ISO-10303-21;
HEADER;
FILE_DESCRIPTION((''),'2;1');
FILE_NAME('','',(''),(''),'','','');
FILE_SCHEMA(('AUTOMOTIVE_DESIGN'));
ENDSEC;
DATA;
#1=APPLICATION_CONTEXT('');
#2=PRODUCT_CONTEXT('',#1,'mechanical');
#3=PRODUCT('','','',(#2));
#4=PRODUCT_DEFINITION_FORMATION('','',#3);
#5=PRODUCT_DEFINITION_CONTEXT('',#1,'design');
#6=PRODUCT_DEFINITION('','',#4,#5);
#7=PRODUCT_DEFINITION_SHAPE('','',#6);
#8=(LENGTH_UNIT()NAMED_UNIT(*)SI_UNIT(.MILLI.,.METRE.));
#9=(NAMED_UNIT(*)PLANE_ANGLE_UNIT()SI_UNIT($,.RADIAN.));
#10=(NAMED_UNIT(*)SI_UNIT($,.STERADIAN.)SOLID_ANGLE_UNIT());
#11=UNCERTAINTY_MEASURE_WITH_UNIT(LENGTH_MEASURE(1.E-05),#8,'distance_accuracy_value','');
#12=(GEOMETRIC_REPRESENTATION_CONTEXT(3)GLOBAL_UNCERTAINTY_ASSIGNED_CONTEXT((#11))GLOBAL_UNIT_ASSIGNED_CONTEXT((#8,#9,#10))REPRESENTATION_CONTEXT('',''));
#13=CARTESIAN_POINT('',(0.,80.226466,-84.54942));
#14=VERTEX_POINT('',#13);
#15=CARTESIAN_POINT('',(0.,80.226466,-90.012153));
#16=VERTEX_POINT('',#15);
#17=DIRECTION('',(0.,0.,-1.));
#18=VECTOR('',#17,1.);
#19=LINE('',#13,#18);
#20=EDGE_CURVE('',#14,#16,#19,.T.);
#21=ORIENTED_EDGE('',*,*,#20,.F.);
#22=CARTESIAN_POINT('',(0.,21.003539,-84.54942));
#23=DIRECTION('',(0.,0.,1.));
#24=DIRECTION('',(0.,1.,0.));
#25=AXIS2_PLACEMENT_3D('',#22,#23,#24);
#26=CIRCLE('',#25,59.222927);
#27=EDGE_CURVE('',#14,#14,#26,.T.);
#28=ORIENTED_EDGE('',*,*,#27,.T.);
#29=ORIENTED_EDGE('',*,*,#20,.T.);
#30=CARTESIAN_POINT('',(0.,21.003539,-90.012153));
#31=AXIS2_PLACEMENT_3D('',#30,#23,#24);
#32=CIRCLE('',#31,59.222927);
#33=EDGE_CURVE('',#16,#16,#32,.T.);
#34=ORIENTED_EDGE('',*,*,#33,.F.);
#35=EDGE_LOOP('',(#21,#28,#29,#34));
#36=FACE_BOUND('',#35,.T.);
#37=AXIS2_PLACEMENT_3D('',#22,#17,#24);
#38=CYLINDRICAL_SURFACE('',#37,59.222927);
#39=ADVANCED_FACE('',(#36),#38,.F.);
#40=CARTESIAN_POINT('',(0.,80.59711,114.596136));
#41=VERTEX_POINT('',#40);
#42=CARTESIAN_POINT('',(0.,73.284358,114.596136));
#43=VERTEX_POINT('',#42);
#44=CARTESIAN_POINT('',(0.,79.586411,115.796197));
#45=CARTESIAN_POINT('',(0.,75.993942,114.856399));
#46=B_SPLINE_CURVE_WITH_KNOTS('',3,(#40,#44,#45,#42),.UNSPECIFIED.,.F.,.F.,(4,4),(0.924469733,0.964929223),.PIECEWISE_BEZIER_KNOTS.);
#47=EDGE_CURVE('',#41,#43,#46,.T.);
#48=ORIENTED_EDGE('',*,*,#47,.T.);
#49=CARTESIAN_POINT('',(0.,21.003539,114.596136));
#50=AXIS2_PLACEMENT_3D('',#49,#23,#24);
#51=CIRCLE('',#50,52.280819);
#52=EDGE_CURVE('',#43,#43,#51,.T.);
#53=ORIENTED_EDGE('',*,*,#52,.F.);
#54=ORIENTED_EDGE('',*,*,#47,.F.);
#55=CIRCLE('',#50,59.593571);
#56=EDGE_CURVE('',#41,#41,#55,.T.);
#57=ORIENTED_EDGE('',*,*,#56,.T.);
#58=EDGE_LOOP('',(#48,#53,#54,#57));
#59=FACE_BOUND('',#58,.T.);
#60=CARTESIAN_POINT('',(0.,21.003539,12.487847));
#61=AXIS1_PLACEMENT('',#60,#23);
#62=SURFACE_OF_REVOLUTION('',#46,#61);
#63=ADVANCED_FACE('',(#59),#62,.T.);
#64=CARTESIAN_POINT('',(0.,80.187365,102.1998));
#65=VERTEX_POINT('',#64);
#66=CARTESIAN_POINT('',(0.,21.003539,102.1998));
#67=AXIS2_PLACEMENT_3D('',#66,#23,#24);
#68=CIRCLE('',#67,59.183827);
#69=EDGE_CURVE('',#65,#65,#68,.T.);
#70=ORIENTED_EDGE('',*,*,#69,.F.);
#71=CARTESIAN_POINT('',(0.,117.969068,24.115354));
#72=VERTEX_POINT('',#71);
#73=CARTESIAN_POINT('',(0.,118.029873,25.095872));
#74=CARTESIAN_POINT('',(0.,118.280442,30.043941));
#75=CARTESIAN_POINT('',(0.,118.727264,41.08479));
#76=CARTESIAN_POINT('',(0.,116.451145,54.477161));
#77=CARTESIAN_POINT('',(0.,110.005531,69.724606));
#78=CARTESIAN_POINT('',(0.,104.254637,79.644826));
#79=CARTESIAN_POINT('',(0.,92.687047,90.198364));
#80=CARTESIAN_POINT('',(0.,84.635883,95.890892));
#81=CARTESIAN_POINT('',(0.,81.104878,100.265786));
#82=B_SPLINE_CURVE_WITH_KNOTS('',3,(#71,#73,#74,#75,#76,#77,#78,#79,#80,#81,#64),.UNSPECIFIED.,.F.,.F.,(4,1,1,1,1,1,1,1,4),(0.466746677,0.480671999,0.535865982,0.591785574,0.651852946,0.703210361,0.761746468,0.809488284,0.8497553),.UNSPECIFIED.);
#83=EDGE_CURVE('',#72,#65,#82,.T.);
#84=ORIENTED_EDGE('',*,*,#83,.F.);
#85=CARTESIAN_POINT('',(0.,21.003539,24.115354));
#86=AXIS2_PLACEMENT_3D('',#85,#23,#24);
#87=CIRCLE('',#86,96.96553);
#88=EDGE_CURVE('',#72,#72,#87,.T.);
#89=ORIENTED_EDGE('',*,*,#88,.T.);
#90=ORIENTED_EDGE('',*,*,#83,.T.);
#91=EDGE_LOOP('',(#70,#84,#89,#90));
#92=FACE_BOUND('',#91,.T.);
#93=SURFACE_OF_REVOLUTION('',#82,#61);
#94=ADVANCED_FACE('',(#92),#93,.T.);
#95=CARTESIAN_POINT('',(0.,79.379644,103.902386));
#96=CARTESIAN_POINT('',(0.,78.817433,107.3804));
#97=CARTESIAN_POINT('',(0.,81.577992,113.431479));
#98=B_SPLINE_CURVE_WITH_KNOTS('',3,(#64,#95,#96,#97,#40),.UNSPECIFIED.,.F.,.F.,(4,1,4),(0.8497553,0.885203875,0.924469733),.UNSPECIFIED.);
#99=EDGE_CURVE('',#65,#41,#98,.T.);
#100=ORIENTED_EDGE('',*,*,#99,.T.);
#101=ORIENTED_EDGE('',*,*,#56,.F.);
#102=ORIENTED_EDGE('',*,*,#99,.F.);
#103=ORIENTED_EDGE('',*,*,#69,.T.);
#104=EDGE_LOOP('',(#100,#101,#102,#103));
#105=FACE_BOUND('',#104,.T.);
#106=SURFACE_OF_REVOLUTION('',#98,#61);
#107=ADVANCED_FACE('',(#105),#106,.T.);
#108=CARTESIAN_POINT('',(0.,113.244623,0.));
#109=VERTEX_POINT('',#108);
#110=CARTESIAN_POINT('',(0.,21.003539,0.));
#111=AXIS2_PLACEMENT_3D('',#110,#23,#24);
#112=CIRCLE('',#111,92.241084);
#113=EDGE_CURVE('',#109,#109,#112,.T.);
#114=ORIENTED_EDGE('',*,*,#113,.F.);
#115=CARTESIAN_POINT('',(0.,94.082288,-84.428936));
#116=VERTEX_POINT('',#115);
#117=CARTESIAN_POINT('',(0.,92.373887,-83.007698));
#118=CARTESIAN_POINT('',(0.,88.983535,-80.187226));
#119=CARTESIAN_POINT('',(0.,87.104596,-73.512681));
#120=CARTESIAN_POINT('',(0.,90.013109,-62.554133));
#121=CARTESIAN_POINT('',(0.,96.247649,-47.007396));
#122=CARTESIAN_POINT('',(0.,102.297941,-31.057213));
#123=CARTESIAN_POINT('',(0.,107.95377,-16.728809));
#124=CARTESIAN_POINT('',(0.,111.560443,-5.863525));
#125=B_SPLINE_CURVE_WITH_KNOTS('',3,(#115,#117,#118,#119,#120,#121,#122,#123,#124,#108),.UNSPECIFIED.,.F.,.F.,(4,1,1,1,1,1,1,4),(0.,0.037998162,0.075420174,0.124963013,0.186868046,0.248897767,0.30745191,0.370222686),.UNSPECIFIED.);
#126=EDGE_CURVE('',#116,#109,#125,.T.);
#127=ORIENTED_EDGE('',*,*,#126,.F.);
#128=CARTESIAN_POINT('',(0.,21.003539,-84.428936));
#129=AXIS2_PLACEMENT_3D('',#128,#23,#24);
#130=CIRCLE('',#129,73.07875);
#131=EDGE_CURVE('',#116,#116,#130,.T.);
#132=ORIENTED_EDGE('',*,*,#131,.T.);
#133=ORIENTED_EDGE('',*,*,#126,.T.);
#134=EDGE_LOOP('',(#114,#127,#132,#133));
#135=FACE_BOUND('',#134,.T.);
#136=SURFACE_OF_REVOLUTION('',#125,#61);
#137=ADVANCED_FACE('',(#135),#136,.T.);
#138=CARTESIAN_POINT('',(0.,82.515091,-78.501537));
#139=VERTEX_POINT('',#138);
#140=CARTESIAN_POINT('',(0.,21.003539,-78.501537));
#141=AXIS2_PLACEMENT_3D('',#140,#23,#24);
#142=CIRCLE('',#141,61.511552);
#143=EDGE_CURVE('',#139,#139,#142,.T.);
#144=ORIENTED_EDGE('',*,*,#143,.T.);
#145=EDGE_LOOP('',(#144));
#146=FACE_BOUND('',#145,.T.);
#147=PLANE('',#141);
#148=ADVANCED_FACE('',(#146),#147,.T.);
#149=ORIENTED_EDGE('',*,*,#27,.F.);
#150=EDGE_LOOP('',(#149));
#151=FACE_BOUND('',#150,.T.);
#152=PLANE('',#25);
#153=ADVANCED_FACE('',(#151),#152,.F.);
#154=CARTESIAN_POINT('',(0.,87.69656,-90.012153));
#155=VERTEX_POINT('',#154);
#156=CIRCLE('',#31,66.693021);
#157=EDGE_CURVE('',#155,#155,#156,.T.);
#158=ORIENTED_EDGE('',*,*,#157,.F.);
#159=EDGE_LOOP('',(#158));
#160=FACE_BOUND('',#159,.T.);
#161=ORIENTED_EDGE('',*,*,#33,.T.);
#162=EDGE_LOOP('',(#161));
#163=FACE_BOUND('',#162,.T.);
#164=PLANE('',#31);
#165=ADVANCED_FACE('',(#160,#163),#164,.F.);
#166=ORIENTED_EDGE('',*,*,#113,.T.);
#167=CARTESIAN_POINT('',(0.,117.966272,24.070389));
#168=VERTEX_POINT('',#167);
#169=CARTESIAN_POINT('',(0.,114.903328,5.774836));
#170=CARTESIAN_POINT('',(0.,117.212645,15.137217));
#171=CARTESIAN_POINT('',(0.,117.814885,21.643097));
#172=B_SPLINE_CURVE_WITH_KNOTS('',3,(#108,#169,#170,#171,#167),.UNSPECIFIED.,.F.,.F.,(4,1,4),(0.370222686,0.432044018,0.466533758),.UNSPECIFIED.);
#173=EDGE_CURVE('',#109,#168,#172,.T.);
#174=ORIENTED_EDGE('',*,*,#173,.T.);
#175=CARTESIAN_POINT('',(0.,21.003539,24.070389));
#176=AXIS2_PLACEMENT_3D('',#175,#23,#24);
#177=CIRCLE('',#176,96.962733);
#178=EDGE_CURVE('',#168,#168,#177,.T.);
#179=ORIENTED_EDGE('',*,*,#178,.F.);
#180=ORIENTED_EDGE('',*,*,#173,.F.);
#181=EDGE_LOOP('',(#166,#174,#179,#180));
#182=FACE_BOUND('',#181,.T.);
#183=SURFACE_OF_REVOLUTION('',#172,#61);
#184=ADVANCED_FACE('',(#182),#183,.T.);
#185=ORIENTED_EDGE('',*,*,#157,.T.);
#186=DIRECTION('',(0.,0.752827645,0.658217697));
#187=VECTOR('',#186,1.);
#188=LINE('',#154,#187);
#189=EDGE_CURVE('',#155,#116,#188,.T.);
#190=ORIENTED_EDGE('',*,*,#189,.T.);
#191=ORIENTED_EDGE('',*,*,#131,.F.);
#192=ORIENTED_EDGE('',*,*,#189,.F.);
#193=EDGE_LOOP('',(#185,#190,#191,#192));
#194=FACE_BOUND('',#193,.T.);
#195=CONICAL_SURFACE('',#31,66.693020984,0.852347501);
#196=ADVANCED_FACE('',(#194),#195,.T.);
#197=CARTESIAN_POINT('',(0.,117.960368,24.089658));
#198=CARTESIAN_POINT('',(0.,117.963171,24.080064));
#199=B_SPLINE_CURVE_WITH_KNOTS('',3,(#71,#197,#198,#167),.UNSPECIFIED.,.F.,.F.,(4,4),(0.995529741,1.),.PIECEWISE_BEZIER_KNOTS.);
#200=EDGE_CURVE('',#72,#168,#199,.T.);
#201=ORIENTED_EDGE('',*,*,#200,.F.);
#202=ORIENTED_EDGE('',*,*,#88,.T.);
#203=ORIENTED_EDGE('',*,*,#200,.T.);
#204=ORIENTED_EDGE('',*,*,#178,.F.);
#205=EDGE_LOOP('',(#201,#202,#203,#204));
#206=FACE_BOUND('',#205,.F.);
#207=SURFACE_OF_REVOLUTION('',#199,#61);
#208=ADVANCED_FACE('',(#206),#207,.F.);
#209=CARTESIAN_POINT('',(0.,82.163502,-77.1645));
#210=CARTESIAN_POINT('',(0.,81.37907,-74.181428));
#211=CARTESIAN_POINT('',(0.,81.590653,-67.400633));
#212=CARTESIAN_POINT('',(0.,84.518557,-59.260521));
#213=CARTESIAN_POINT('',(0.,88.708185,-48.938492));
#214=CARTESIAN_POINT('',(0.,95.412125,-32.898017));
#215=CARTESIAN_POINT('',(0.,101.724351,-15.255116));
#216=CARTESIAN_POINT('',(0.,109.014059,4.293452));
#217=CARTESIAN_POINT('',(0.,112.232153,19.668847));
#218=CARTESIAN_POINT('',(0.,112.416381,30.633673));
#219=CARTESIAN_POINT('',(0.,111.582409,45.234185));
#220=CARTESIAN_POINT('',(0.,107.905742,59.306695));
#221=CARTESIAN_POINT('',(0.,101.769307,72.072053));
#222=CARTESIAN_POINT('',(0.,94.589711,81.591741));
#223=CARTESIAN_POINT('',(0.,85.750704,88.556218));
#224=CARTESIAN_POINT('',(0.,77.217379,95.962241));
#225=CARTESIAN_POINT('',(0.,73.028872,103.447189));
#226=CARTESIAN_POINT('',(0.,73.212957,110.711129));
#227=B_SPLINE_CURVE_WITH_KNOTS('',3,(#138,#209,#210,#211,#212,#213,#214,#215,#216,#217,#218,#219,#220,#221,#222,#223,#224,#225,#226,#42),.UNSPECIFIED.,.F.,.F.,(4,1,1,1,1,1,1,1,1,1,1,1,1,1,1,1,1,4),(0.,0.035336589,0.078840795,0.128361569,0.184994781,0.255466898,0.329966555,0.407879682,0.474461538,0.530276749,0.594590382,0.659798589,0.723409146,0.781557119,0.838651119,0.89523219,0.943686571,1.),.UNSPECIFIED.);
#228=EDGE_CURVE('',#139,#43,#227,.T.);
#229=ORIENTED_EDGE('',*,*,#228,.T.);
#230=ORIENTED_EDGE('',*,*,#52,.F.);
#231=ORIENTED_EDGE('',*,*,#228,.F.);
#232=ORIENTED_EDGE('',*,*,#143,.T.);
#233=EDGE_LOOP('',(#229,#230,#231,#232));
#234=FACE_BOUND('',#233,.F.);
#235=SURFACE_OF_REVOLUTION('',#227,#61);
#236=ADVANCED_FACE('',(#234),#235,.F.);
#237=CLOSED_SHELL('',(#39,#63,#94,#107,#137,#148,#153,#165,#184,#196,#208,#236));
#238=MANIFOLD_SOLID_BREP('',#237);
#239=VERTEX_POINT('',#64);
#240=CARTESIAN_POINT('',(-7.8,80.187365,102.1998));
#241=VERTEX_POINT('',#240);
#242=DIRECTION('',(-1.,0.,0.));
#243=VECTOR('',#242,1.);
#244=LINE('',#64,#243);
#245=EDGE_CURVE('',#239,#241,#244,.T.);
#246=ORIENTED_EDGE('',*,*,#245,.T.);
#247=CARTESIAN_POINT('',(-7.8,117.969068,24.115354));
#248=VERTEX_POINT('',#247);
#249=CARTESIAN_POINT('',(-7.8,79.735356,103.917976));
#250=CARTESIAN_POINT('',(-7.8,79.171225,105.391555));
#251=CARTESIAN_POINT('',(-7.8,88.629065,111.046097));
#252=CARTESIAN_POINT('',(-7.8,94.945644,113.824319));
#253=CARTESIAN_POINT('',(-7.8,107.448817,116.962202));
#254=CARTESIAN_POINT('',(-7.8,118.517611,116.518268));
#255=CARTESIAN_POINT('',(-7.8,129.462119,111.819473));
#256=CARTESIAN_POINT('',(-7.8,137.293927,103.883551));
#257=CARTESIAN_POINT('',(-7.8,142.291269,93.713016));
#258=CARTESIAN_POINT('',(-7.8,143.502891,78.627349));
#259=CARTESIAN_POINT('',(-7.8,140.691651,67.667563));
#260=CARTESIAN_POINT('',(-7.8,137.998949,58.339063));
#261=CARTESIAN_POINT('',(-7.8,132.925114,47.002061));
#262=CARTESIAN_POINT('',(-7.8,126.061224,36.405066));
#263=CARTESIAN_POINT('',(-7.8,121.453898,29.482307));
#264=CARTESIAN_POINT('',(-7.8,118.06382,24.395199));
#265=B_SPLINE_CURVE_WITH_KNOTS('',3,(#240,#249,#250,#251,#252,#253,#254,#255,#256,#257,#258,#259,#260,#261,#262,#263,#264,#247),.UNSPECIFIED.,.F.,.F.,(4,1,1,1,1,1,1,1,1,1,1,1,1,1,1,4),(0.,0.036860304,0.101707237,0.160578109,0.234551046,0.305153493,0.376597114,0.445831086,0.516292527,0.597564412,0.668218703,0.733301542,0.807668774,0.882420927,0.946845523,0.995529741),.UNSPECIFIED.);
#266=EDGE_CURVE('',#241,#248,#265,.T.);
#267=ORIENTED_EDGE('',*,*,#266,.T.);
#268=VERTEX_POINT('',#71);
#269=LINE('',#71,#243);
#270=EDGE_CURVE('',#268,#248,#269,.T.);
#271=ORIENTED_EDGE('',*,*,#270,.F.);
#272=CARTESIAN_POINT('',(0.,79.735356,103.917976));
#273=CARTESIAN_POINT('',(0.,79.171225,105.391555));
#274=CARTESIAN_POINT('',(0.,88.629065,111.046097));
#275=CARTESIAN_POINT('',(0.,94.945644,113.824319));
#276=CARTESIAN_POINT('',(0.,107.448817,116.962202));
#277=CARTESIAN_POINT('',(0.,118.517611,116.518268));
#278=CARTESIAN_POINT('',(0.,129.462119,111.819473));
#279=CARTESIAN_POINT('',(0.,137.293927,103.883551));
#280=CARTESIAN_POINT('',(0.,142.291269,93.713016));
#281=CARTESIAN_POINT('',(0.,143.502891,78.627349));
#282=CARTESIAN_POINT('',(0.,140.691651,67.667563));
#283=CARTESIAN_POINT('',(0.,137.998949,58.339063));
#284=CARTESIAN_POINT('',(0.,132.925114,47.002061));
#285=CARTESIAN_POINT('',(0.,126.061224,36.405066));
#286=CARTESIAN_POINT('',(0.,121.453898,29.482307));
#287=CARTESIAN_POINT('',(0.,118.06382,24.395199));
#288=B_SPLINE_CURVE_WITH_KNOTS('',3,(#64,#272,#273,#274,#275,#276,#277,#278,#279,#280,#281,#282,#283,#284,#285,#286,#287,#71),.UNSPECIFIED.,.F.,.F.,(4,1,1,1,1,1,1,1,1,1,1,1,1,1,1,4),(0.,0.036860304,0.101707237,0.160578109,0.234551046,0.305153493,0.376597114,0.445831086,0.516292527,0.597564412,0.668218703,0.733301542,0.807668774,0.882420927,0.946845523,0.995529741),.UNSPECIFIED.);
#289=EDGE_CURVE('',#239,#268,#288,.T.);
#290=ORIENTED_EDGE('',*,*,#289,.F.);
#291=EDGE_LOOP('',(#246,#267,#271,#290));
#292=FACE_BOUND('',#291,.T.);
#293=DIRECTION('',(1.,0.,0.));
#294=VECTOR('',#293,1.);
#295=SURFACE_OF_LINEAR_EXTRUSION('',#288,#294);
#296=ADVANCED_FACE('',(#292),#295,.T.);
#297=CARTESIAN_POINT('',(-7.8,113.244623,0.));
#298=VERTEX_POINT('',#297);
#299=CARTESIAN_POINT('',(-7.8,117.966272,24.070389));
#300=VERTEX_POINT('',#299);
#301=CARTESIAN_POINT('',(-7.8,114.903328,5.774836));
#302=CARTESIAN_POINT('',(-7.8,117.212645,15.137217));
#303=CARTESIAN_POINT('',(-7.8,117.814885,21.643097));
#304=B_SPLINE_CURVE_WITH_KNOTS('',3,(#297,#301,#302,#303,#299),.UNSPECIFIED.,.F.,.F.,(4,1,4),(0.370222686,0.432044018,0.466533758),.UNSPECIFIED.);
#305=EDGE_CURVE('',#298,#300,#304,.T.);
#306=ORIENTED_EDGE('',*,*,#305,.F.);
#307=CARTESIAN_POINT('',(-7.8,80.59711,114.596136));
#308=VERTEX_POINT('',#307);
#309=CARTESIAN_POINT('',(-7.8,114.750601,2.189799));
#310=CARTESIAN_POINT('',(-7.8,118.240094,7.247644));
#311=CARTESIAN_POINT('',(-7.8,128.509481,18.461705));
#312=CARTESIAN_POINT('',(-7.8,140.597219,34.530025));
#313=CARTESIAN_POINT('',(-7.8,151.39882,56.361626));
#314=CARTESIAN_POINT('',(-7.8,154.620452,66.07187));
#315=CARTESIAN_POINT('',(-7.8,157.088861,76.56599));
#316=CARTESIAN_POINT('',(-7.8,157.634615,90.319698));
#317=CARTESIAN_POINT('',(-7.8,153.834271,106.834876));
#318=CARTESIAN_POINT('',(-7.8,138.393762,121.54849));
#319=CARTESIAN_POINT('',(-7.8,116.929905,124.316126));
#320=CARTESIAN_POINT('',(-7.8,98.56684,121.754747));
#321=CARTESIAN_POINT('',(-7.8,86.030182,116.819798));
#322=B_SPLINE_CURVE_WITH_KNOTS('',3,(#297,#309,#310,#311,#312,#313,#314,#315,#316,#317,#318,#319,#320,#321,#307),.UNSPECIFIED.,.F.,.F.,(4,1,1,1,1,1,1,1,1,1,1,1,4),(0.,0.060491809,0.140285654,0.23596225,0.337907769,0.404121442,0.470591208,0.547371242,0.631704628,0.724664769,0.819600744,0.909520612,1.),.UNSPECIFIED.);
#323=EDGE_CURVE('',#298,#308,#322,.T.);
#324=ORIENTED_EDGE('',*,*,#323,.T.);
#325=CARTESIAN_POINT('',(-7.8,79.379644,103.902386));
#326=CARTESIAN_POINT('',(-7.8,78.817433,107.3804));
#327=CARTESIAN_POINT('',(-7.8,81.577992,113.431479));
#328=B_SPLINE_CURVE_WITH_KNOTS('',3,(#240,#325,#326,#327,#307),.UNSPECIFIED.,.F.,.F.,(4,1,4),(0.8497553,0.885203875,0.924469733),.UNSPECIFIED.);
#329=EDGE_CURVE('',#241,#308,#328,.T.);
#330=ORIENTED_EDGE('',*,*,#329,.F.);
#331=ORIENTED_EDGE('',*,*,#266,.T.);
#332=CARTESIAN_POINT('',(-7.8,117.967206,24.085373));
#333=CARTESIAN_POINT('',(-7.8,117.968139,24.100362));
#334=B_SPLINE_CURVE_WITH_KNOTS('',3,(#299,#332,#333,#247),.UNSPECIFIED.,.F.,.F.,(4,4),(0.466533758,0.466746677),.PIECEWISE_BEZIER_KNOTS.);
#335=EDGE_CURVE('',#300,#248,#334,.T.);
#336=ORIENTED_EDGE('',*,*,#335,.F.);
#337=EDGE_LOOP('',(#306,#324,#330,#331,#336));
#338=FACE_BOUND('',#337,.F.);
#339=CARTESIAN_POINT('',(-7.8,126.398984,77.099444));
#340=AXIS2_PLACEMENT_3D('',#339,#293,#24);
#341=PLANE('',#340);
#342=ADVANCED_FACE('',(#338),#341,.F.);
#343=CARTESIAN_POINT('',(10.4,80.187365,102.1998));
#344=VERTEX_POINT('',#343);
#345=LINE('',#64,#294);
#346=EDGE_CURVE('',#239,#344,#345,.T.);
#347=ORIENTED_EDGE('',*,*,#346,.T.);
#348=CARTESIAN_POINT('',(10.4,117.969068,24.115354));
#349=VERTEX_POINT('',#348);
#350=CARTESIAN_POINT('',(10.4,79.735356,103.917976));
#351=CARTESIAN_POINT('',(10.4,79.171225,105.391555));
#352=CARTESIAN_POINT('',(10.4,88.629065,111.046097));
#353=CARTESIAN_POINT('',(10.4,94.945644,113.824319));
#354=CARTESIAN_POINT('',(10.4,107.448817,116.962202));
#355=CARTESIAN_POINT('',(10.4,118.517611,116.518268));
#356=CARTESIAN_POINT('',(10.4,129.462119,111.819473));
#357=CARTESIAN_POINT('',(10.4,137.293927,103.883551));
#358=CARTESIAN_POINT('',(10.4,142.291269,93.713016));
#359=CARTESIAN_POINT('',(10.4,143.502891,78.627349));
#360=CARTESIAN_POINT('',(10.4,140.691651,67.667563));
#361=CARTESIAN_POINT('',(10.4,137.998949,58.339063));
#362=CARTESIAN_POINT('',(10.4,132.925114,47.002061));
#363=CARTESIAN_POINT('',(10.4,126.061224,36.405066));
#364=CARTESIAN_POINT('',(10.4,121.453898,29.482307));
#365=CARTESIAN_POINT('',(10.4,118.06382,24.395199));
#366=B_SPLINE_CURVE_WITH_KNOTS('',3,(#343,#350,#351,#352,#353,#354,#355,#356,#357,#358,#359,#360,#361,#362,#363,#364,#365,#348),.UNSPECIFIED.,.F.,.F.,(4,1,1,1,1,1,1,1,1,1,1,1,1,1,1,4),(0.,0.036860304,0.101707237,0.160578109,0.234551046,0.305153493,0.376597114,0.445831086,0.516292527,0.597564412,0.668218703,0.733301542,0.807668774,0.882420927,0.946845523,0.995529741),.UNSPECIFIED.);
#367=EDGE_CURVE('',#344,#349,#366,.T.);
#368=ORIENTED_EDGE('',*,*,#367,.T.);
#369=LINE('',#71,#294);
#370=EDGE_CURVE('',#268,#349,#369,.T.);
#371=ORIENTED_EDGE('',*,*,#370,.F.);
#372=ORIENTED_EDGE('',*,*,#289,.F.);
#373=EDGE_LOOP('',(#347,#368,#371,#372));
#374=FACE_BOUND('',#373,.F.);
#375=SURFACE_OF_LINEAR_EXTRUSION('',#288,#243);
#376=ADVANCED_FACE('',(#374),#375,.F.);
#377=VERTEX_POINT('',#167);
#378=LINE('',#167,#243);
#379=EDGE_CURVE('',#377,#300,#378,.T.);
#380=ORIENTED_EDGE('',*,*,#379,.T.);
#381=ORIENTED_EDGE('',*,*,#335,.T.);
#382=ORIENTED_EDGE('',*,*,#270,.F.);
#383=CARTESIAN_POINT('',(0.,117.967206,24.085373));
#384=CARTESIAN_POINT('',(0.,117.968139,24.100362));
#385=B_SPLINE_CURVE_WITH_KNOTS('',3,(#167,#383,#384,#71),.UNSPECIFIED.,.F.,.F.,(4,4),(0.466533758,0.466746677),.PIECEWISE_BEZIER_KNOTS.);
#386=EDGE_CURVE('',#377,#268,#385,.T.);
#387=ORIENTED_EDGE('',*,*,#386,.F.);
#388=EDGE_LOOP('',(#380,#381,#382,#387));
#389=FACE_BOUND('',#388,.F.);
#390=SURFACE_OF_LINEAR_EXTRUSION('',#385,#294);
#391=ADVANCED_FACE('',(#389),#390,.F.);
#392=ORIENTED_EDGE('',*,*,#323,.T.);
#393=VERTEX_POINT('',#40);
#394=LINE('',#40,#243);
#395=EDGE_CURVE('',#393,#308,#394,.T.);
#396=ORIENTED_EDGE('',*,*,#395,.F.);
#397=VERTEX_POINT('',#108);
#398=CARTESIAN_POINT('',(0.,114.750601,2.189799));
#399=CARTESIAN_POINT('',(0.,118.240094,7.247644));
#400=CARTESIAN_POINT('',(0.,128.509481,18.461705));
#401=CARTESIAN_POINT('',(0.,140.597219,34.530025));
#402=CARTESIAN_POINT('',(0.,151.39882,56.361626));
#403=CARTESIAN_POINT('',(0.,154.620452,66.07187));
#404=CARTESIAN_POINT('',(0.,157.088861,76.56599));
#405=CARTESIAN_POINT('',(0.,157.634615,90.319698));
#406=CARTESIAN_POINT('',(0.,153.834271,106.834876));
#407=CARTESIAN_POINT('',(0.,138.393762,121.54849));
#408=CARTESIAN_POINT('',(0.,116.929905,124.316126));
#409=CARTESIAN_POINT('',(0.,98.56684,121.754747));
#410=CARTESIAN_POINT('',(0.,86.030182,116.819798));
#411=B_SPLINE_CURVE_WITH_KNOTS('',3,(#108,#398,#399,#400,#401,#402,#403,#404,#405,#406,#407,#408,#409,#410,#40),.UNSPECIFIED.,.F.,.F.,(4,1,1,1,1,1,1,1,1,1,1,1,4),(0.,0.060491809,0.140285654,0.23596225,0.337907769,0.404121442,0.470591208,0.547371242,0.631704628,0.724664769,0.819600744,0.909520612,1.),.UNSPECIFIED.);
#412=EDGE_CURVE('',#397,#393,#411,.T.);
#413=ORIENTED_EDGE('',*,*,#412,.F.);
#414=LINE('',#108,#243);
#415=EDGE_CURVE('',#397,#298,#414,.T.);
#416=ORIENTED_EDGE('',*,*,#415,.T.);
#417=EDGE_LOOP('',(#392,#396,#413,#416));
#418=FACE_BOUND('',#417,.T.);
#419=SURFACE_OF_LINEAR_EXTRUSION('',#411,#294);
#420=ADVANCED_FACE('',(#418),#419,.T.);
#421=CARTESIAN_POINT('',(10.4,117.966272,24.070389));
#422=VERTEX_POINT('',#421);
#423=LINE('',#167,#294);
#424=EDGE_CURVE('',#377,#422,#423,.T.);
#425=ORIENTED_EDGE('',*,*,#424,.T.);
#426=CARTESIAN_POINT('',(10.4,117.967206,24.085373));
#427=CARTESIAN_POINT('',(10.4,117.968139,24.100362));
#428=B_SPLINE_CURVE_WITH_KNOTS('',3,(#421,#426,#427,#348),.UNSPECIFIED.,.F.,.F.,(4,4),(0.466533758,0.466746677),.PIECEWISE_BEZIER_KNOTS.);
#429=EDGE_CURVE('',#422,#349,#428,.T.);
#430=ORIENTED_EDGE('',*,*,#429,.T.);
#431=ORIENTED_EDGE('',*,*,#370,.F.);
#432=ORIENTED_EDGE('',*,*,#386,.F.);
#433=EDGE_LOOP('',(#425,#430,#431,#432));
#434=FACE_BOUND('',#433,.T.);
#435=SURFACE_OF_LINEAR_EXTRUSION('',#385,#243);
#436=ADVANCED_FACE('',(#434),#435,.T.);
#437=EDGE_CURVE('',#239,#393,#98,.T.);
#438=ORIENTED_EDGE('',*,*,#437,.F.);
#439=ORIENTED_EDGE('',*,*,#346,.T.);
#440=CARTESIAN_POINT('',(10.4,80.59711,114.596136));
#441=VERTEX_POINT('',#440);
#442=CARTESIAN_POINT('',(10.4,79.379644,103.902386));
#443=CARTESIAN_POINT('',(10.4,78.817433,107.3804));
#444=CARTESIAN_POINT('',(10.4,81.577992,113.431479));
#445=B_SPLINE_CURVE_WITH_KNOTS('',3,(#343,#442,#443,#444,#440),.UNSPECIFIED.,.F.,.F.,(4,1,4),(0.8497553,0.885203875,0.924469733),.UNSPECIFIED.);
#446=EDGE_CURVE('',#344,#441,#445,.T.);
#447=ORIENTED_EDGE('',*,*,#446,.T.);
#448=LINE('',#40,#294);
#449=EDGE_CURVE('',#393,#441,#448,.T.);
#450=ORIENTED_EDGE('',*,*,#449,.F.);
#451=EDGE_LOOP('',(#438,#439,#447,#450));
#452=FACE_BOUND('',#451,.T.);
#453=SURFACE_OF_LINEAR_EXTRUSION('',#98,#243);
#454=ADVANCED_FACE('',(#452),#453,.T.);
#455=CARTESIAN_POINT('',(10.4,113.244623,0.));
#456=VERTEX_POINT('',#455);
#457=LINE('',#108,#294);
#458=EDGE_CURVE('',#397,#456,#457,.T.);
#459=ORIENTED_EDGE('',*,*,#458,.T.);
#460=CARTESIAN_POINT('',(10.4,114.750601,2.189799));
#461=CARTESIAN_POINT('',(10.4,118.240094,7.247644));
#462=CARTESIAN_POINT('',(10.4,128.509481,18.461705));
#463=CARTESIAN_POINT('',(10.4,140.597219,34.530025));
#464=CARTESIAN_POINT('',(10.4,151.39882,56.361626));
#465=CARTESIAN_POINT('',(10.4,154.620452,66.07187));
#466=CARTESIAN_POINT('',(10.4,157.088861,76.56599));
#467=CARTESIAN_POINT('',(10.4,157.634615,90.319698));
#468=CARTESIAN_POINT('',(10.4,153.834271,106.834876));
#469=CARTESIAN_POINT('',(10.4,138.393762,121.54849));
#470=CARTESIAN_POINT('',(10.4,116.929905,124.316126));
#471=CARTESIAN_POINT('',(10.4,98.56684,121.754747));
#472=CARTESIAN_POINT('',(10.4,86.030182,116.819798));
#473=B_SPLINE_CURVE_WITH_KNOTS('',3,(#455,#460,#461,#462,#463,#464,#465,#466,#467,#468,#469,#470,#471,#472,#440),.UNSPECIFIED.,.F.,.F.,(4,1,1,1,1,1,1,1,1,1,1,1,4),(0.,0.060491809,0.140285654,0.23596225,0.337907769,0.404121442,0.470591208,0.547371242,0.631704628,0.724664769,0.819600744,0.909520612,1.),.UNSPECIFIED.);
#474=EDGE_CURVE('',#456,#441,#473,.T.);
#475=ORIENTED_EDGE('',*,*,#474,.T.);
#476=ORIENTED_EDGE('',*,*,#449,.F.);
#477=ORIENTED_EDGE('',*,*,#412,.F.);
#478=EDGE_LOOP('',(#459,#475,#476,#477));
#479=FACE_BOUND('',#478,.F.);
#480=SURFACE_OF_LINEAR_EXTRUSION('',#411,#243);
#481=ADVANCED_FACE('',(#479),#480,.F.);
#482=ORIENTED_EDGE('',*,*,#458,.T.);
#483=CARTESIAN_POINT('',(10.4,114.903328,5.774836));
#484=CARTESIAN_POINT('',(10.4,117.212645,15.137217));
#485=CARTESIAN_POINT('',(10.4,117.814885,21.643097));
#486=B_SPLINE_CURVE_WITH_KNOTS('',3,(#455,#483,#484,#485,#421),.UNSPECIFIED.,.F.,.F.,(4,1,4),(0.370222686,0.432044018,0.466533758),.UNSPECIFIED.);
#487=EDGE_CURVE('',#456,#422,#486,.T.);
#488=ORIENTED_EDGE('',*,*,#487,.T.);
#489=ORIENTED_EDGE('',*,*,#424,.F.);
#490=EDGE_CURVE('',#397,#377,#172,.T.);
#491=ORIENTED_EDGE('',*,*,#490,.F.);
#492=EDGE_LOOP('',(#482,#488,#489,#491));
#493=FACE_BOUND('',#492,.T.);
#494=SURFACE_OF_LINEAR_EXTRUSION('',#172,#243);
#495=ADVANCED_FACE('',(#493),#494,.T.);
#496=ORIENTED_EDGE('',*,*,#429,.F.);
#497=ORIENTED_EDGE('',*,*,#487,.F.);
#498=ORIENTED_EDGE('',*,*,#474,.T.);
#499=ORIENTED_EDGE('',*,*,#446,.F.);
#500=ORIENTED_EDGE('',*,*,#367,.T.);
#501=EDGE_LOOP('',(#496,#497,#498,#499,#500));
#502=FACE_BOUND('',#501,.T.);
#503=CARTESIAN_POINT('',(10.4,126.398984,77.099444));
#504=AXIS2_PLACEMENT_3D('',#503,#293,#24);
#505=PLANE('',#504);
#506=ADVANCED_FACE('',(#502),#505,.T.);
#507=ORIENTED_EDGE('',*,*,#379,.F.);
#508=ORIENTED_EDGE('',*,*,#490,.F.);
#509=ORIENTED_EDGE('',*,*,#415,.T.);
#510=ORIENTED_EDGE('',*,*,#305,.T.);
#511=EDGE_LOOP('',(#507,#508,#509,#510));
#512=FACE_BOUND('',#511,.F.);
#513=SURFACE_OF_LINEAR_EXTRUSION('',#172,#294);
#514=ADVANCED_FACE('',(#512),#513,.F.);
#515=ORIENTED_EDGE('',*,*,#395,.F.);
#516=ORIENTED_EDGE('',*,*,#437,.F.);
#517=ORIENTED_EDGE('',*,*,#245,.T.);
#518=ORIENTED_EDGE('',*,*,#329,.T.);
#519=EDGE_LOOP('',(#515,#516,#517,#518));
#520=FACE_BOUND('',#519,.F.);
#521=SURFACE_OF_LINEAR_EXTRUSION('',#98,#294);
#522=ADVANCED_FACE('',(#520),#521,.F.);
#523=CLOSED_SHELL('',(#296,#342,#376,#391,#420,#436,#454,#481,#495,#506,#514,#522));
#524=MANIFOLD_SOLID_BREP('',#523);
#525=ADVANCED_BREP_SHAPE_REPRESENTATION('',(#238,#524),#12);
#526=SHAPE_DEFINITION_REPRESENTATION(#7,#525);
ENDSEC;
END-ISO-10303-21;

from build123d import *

# Parameters (mm, degrees)
F2_DEPTH      = 10.4
F2_DEPTH_BACK = 7.8


with BuildPart() as f1:
    # F0 (on Right) → F1 (revolve)
    with BuildSketch(Plane.YZ):
        with BuildLine():
            Line((21.0035387427, -78.5015374422), (21.0035387427, -84.5494195819))
            Line((21.0035387427, -84.5494195819), (80.2264660597, -84.5494195819))
            Line((80.2264660597, -84.5494195819), (80.2264660597, -90.012152642))
            Line((80.2264660597, -90.012152642), (87.6965597272, -90.012152642))
            Line((87.6965597272, -90.012152642), (94.082288444, -84.4289362431))
            add(Edge.make_bspline(
                [(94.082288444, -84.4289362431), (92.3738872366, -83.0076980203), (88.9835351958, -80.1872259394), (87.1045959567, -73.5126811581), (90.0131092042, -62.5541332421), (96.2476492207, -47.0073959475), (102.2979406677, -31.0572130313), (107.953769787, -16.7288086893), (111.5604432675, -5.8635248362), (113.2446229458, 0)],
                knots=[0, 0, 0, 0, 0.0379981617, 0.075420174, 0.1249630134, 0.1868680457, 0.2488977672, 0.30745191, 0.3702226859, 0.3702226859, 0.3702226859, 0.3702226859], degree=3))
            add(Edge.make_bspline(
                [(113.2446229458, 0), (114.9033284374, 5.7748356493), (117.212645425, 15.1372170678), (117.8148851259, 21.6430969665), (117.9662718934, 24.0703888431)],
                knots=[0.3702226859, 0.3702226859, 0.3702226859, 0.3702226859, 0.4320440176, 0.4665337581, 0.4665337581, 0.4665337581, 0.4665337581], degree=3))
            add(Edge.make_bspline(
                [(117.9690682879, 24.1153539348), (117.9603680731, 24.0896581148), (117.9631714085, 24.080063716), (117.9662718934, 24.0703888431)],
                knots=[0.9955297408, 0.9955297408, 0.9955297408, 0.9955297408, 1, 1, 1, 1], degree=3))
            add(Edge.make_bspline(
                [(117.9690682879, 24.1153539348), (118.0298730314, 25.0958724695), (118.2804424362, 30.0439409899), (118.7272641145, 41.0847896489), (116.4511449657, 54.4771611951), (110.0055314065, 69.7246057808), (104.2546373672, 79.6448262453), (92.6870466905, 90.1983640908), (84.6358825321, 95.8908917569), (81.104878366, 100.265786402), (80.1873654127, 102.1998003125)],
                knots=[0.4667466766, 0.4667466766, 0.4667466766, 0.4667466766, 0.4806719992, 0.5358659817, 0.5917855739, 0.6518529462, 0.7032103609, 0.7617464682, 0.809488284, 0.8497553004, 0.8497553004, 0.8497553004, 0.8497553004], degree=3))
            add(Edge.make_bspline(
                [(80.1873654127, 102.1998003125), (79.3796441137, 103.9023857884), (78.8174329525, 107.3804000394), (81.5779918846, 113.4314788964), (80.5971100926, 114.5961359143)],
                knots=[0.8497553004, 0.8497553004, 0.8497553004, 0.8497553004, 0.8852038754, 0.9244697332, 0.9244697332, 0.9244697332, 0.9244697332], degree=3))
            add(Edge.make_bspline(
                [(80.5971100926, 114.5961359143), (79.5864107397, 115.7961970268), (75.9939422246, 114.8563985279), (73.2843577862, 114.5961359143)],
                knots=[0.9244697332, 0.9244697332, 0.9244697332, 0.9244697332, 0.9649292232, 0.9649292232, 0.9649292232, 0.9649292232], degree=3))
            add(Edge.make_bspline(
                [(82.515090704, -78.5015374422), (82.163501857, -77.1645000075), (81.3790699561, -74.1814280195), (81.5906530908, -67.4006331631), (84.5185567332, -59.2605208819), (88.70818538, -48.9384919732), (95.4121248716, -32.8980169433), (101.7243507766, -15.2551155999), (109.014058561, 4.2934516881), (112.2321532098, 19.6688466463), (112.416380904, 30.6336732043), (111.5824092223, 45.2341849874), (107.9057424839, 59.3066953152), (101.7693074871, 72.0720531928), (94.5897108488, 81.5917410304), (85.7507044603, 88.5562179254), (77.2173785756, 95.9622408761), (73.0288721391, 103.4471890205), (73.212957295, 110.7111288839), (73.2843577862, 114.5961359143)],
                knots=[0, 0, 0, 0, 0.0353365888, 0.0788407953, 0.1283615695, 0.184994781, 0.2554668977, 0.3299665545, 0.4078796822, 0.4744615379, 0.5302767487, 0.5945903822, 0.6597985892, 0.7234091458, 0.7815571193, 0.8386511187, 0.8952321897, 0.9436865705, 1, 1, 1, 1], degree=3))
            Line((82.515090704, -78.5015374422), (21.0035387427, -78.5015374422))
        make_face()
    revolve(axis=Axis((0, 21.0035387427, 12.487847358), (0, 0, 1)))


with BuildPart() as f2:
    # F0 (on Right) → F2 (new body, two sides)
    with BuildSketch(Plane.YZ) as f2_sk:
        with BuildLine():
            add(Edge.make_bspline(
                [(113.2446229458, 0), (114.7506014429, 2.1897993659), (118.2400935902, 7.2476439439), (128.5094813431, 18.4617054072), (140.5972188595, 34.5300252895), (151.3988202679, 56.3616259867), (154.6204519647, 66.0718702645), (157.0888606341, 76.5659898364), (157.6346150399, 90.3196979879), (153.8342714541, 106.834876278), (138.3937617766, 121.5484903543), (116.9299047736, 124.3161256128), (98.5668402606, 121.7547471985), (86.0301816325, 116.8197984195), (80.5971100926, 114.5961359143)],
                knots=[0, 0, 0, 0, 0.0604918091, 0.1402856542, 0.2359622497, 0.3379077691, 0.4041214418, 0.4705912076, 0.5473712416, 0.6317046276, 0.724664769, 0.8196007437, 0.9095206123, 1, 1, 1, 1], degree=3))
            add(Edge.make_bspline(
                [(80.1873654127, 102.1998003125), (79.3796441137, 103.9023857884), (78.8174329525, 107.3804000394), (81.5779918846, 113.4314788964), (80.5971100926, 114.5961359143)],
                knots=[0.8497553004, 0.8497553004, 0.8497553004, 0.8497553004, 0.8852038754, 0.9244697332, 0.9244697332, 0.9244697332, 0.9244697332], degree=3))
            add(Edge.make_bspline(
                [(80.1873654127, 102.1998003125), (79.735356321, 103.917975547), (79.1712253967, 105.391554634), (88.6290649127, 111.0460970051), (94.9456435351, 113.824319383), (107.4488172259, 116.9622020073), (118.5176109969, 116.5182681696), (129.4621188424, 111.8194729744), (137.2939273423, 103.8835514798), (142.2912686434, 93.7130164507), (143.5028914913, 78.6273489957), (140.6916507591, 67.6675633212), (137.9989486883, 58.3390625774), (132.9251140697, 47.0020606572), (126.0612237215, 36.4050664237), (121.4538975578, 29.4823069737), (118.0638196504, 24.3951992048), (117.9690682879, 24.1153539348)],
                knots=[0, 0, 0, 0, 0.0368603038, 0.1017072367, 0.1605781086, 0.2345510461, 0.3051534929, 0.3765971135, 0.4458310855, 0.5162925273, 0.5975644121, 0.6682187025, 0.7333015416, 0.8076687737, 0.8824209267, 0.9468455229, 0.9955297408, 0.9955297408, 0.9955297408, 0.9955297408], degree=3))
            add(Edge.make_bspline(
                [(117.9662718934, 24.0703888431), (117.9672064626, 24.0853734553), (117.9681385819, 24.1003617829), (117.9690682879, 24.1153539348)],
                knots=[0.4665337581, 0.4665337581, 0.4665337581, 0.4665337581, 0.4667466766, 0.4667466766, 0.4667466766, 0.4667466766], degree=3))
            add(Edge.make_bspline(
                [(113.2446229458, 0), (114.9033284374, 5.7748356493), (117.212645425, 15.1372170678), (117.8148851259, 21.6430969665), (117.9662718934, 24.0703888431)],
                knots=[0.3702226859, 0.3702226859, 0.3702226859, 0.3702226859, 0.4320440176, 0.4665337581, 0.4665337581, 0.4665337581, 0.4665337581], degree=3))
        make_face()
    extrude(amount=F2_DEPTH)
    extrude(f2_sk.sketch, amount=-F2_DEPTH_BACK)


solid = Compound([f1.part, f2.part])
